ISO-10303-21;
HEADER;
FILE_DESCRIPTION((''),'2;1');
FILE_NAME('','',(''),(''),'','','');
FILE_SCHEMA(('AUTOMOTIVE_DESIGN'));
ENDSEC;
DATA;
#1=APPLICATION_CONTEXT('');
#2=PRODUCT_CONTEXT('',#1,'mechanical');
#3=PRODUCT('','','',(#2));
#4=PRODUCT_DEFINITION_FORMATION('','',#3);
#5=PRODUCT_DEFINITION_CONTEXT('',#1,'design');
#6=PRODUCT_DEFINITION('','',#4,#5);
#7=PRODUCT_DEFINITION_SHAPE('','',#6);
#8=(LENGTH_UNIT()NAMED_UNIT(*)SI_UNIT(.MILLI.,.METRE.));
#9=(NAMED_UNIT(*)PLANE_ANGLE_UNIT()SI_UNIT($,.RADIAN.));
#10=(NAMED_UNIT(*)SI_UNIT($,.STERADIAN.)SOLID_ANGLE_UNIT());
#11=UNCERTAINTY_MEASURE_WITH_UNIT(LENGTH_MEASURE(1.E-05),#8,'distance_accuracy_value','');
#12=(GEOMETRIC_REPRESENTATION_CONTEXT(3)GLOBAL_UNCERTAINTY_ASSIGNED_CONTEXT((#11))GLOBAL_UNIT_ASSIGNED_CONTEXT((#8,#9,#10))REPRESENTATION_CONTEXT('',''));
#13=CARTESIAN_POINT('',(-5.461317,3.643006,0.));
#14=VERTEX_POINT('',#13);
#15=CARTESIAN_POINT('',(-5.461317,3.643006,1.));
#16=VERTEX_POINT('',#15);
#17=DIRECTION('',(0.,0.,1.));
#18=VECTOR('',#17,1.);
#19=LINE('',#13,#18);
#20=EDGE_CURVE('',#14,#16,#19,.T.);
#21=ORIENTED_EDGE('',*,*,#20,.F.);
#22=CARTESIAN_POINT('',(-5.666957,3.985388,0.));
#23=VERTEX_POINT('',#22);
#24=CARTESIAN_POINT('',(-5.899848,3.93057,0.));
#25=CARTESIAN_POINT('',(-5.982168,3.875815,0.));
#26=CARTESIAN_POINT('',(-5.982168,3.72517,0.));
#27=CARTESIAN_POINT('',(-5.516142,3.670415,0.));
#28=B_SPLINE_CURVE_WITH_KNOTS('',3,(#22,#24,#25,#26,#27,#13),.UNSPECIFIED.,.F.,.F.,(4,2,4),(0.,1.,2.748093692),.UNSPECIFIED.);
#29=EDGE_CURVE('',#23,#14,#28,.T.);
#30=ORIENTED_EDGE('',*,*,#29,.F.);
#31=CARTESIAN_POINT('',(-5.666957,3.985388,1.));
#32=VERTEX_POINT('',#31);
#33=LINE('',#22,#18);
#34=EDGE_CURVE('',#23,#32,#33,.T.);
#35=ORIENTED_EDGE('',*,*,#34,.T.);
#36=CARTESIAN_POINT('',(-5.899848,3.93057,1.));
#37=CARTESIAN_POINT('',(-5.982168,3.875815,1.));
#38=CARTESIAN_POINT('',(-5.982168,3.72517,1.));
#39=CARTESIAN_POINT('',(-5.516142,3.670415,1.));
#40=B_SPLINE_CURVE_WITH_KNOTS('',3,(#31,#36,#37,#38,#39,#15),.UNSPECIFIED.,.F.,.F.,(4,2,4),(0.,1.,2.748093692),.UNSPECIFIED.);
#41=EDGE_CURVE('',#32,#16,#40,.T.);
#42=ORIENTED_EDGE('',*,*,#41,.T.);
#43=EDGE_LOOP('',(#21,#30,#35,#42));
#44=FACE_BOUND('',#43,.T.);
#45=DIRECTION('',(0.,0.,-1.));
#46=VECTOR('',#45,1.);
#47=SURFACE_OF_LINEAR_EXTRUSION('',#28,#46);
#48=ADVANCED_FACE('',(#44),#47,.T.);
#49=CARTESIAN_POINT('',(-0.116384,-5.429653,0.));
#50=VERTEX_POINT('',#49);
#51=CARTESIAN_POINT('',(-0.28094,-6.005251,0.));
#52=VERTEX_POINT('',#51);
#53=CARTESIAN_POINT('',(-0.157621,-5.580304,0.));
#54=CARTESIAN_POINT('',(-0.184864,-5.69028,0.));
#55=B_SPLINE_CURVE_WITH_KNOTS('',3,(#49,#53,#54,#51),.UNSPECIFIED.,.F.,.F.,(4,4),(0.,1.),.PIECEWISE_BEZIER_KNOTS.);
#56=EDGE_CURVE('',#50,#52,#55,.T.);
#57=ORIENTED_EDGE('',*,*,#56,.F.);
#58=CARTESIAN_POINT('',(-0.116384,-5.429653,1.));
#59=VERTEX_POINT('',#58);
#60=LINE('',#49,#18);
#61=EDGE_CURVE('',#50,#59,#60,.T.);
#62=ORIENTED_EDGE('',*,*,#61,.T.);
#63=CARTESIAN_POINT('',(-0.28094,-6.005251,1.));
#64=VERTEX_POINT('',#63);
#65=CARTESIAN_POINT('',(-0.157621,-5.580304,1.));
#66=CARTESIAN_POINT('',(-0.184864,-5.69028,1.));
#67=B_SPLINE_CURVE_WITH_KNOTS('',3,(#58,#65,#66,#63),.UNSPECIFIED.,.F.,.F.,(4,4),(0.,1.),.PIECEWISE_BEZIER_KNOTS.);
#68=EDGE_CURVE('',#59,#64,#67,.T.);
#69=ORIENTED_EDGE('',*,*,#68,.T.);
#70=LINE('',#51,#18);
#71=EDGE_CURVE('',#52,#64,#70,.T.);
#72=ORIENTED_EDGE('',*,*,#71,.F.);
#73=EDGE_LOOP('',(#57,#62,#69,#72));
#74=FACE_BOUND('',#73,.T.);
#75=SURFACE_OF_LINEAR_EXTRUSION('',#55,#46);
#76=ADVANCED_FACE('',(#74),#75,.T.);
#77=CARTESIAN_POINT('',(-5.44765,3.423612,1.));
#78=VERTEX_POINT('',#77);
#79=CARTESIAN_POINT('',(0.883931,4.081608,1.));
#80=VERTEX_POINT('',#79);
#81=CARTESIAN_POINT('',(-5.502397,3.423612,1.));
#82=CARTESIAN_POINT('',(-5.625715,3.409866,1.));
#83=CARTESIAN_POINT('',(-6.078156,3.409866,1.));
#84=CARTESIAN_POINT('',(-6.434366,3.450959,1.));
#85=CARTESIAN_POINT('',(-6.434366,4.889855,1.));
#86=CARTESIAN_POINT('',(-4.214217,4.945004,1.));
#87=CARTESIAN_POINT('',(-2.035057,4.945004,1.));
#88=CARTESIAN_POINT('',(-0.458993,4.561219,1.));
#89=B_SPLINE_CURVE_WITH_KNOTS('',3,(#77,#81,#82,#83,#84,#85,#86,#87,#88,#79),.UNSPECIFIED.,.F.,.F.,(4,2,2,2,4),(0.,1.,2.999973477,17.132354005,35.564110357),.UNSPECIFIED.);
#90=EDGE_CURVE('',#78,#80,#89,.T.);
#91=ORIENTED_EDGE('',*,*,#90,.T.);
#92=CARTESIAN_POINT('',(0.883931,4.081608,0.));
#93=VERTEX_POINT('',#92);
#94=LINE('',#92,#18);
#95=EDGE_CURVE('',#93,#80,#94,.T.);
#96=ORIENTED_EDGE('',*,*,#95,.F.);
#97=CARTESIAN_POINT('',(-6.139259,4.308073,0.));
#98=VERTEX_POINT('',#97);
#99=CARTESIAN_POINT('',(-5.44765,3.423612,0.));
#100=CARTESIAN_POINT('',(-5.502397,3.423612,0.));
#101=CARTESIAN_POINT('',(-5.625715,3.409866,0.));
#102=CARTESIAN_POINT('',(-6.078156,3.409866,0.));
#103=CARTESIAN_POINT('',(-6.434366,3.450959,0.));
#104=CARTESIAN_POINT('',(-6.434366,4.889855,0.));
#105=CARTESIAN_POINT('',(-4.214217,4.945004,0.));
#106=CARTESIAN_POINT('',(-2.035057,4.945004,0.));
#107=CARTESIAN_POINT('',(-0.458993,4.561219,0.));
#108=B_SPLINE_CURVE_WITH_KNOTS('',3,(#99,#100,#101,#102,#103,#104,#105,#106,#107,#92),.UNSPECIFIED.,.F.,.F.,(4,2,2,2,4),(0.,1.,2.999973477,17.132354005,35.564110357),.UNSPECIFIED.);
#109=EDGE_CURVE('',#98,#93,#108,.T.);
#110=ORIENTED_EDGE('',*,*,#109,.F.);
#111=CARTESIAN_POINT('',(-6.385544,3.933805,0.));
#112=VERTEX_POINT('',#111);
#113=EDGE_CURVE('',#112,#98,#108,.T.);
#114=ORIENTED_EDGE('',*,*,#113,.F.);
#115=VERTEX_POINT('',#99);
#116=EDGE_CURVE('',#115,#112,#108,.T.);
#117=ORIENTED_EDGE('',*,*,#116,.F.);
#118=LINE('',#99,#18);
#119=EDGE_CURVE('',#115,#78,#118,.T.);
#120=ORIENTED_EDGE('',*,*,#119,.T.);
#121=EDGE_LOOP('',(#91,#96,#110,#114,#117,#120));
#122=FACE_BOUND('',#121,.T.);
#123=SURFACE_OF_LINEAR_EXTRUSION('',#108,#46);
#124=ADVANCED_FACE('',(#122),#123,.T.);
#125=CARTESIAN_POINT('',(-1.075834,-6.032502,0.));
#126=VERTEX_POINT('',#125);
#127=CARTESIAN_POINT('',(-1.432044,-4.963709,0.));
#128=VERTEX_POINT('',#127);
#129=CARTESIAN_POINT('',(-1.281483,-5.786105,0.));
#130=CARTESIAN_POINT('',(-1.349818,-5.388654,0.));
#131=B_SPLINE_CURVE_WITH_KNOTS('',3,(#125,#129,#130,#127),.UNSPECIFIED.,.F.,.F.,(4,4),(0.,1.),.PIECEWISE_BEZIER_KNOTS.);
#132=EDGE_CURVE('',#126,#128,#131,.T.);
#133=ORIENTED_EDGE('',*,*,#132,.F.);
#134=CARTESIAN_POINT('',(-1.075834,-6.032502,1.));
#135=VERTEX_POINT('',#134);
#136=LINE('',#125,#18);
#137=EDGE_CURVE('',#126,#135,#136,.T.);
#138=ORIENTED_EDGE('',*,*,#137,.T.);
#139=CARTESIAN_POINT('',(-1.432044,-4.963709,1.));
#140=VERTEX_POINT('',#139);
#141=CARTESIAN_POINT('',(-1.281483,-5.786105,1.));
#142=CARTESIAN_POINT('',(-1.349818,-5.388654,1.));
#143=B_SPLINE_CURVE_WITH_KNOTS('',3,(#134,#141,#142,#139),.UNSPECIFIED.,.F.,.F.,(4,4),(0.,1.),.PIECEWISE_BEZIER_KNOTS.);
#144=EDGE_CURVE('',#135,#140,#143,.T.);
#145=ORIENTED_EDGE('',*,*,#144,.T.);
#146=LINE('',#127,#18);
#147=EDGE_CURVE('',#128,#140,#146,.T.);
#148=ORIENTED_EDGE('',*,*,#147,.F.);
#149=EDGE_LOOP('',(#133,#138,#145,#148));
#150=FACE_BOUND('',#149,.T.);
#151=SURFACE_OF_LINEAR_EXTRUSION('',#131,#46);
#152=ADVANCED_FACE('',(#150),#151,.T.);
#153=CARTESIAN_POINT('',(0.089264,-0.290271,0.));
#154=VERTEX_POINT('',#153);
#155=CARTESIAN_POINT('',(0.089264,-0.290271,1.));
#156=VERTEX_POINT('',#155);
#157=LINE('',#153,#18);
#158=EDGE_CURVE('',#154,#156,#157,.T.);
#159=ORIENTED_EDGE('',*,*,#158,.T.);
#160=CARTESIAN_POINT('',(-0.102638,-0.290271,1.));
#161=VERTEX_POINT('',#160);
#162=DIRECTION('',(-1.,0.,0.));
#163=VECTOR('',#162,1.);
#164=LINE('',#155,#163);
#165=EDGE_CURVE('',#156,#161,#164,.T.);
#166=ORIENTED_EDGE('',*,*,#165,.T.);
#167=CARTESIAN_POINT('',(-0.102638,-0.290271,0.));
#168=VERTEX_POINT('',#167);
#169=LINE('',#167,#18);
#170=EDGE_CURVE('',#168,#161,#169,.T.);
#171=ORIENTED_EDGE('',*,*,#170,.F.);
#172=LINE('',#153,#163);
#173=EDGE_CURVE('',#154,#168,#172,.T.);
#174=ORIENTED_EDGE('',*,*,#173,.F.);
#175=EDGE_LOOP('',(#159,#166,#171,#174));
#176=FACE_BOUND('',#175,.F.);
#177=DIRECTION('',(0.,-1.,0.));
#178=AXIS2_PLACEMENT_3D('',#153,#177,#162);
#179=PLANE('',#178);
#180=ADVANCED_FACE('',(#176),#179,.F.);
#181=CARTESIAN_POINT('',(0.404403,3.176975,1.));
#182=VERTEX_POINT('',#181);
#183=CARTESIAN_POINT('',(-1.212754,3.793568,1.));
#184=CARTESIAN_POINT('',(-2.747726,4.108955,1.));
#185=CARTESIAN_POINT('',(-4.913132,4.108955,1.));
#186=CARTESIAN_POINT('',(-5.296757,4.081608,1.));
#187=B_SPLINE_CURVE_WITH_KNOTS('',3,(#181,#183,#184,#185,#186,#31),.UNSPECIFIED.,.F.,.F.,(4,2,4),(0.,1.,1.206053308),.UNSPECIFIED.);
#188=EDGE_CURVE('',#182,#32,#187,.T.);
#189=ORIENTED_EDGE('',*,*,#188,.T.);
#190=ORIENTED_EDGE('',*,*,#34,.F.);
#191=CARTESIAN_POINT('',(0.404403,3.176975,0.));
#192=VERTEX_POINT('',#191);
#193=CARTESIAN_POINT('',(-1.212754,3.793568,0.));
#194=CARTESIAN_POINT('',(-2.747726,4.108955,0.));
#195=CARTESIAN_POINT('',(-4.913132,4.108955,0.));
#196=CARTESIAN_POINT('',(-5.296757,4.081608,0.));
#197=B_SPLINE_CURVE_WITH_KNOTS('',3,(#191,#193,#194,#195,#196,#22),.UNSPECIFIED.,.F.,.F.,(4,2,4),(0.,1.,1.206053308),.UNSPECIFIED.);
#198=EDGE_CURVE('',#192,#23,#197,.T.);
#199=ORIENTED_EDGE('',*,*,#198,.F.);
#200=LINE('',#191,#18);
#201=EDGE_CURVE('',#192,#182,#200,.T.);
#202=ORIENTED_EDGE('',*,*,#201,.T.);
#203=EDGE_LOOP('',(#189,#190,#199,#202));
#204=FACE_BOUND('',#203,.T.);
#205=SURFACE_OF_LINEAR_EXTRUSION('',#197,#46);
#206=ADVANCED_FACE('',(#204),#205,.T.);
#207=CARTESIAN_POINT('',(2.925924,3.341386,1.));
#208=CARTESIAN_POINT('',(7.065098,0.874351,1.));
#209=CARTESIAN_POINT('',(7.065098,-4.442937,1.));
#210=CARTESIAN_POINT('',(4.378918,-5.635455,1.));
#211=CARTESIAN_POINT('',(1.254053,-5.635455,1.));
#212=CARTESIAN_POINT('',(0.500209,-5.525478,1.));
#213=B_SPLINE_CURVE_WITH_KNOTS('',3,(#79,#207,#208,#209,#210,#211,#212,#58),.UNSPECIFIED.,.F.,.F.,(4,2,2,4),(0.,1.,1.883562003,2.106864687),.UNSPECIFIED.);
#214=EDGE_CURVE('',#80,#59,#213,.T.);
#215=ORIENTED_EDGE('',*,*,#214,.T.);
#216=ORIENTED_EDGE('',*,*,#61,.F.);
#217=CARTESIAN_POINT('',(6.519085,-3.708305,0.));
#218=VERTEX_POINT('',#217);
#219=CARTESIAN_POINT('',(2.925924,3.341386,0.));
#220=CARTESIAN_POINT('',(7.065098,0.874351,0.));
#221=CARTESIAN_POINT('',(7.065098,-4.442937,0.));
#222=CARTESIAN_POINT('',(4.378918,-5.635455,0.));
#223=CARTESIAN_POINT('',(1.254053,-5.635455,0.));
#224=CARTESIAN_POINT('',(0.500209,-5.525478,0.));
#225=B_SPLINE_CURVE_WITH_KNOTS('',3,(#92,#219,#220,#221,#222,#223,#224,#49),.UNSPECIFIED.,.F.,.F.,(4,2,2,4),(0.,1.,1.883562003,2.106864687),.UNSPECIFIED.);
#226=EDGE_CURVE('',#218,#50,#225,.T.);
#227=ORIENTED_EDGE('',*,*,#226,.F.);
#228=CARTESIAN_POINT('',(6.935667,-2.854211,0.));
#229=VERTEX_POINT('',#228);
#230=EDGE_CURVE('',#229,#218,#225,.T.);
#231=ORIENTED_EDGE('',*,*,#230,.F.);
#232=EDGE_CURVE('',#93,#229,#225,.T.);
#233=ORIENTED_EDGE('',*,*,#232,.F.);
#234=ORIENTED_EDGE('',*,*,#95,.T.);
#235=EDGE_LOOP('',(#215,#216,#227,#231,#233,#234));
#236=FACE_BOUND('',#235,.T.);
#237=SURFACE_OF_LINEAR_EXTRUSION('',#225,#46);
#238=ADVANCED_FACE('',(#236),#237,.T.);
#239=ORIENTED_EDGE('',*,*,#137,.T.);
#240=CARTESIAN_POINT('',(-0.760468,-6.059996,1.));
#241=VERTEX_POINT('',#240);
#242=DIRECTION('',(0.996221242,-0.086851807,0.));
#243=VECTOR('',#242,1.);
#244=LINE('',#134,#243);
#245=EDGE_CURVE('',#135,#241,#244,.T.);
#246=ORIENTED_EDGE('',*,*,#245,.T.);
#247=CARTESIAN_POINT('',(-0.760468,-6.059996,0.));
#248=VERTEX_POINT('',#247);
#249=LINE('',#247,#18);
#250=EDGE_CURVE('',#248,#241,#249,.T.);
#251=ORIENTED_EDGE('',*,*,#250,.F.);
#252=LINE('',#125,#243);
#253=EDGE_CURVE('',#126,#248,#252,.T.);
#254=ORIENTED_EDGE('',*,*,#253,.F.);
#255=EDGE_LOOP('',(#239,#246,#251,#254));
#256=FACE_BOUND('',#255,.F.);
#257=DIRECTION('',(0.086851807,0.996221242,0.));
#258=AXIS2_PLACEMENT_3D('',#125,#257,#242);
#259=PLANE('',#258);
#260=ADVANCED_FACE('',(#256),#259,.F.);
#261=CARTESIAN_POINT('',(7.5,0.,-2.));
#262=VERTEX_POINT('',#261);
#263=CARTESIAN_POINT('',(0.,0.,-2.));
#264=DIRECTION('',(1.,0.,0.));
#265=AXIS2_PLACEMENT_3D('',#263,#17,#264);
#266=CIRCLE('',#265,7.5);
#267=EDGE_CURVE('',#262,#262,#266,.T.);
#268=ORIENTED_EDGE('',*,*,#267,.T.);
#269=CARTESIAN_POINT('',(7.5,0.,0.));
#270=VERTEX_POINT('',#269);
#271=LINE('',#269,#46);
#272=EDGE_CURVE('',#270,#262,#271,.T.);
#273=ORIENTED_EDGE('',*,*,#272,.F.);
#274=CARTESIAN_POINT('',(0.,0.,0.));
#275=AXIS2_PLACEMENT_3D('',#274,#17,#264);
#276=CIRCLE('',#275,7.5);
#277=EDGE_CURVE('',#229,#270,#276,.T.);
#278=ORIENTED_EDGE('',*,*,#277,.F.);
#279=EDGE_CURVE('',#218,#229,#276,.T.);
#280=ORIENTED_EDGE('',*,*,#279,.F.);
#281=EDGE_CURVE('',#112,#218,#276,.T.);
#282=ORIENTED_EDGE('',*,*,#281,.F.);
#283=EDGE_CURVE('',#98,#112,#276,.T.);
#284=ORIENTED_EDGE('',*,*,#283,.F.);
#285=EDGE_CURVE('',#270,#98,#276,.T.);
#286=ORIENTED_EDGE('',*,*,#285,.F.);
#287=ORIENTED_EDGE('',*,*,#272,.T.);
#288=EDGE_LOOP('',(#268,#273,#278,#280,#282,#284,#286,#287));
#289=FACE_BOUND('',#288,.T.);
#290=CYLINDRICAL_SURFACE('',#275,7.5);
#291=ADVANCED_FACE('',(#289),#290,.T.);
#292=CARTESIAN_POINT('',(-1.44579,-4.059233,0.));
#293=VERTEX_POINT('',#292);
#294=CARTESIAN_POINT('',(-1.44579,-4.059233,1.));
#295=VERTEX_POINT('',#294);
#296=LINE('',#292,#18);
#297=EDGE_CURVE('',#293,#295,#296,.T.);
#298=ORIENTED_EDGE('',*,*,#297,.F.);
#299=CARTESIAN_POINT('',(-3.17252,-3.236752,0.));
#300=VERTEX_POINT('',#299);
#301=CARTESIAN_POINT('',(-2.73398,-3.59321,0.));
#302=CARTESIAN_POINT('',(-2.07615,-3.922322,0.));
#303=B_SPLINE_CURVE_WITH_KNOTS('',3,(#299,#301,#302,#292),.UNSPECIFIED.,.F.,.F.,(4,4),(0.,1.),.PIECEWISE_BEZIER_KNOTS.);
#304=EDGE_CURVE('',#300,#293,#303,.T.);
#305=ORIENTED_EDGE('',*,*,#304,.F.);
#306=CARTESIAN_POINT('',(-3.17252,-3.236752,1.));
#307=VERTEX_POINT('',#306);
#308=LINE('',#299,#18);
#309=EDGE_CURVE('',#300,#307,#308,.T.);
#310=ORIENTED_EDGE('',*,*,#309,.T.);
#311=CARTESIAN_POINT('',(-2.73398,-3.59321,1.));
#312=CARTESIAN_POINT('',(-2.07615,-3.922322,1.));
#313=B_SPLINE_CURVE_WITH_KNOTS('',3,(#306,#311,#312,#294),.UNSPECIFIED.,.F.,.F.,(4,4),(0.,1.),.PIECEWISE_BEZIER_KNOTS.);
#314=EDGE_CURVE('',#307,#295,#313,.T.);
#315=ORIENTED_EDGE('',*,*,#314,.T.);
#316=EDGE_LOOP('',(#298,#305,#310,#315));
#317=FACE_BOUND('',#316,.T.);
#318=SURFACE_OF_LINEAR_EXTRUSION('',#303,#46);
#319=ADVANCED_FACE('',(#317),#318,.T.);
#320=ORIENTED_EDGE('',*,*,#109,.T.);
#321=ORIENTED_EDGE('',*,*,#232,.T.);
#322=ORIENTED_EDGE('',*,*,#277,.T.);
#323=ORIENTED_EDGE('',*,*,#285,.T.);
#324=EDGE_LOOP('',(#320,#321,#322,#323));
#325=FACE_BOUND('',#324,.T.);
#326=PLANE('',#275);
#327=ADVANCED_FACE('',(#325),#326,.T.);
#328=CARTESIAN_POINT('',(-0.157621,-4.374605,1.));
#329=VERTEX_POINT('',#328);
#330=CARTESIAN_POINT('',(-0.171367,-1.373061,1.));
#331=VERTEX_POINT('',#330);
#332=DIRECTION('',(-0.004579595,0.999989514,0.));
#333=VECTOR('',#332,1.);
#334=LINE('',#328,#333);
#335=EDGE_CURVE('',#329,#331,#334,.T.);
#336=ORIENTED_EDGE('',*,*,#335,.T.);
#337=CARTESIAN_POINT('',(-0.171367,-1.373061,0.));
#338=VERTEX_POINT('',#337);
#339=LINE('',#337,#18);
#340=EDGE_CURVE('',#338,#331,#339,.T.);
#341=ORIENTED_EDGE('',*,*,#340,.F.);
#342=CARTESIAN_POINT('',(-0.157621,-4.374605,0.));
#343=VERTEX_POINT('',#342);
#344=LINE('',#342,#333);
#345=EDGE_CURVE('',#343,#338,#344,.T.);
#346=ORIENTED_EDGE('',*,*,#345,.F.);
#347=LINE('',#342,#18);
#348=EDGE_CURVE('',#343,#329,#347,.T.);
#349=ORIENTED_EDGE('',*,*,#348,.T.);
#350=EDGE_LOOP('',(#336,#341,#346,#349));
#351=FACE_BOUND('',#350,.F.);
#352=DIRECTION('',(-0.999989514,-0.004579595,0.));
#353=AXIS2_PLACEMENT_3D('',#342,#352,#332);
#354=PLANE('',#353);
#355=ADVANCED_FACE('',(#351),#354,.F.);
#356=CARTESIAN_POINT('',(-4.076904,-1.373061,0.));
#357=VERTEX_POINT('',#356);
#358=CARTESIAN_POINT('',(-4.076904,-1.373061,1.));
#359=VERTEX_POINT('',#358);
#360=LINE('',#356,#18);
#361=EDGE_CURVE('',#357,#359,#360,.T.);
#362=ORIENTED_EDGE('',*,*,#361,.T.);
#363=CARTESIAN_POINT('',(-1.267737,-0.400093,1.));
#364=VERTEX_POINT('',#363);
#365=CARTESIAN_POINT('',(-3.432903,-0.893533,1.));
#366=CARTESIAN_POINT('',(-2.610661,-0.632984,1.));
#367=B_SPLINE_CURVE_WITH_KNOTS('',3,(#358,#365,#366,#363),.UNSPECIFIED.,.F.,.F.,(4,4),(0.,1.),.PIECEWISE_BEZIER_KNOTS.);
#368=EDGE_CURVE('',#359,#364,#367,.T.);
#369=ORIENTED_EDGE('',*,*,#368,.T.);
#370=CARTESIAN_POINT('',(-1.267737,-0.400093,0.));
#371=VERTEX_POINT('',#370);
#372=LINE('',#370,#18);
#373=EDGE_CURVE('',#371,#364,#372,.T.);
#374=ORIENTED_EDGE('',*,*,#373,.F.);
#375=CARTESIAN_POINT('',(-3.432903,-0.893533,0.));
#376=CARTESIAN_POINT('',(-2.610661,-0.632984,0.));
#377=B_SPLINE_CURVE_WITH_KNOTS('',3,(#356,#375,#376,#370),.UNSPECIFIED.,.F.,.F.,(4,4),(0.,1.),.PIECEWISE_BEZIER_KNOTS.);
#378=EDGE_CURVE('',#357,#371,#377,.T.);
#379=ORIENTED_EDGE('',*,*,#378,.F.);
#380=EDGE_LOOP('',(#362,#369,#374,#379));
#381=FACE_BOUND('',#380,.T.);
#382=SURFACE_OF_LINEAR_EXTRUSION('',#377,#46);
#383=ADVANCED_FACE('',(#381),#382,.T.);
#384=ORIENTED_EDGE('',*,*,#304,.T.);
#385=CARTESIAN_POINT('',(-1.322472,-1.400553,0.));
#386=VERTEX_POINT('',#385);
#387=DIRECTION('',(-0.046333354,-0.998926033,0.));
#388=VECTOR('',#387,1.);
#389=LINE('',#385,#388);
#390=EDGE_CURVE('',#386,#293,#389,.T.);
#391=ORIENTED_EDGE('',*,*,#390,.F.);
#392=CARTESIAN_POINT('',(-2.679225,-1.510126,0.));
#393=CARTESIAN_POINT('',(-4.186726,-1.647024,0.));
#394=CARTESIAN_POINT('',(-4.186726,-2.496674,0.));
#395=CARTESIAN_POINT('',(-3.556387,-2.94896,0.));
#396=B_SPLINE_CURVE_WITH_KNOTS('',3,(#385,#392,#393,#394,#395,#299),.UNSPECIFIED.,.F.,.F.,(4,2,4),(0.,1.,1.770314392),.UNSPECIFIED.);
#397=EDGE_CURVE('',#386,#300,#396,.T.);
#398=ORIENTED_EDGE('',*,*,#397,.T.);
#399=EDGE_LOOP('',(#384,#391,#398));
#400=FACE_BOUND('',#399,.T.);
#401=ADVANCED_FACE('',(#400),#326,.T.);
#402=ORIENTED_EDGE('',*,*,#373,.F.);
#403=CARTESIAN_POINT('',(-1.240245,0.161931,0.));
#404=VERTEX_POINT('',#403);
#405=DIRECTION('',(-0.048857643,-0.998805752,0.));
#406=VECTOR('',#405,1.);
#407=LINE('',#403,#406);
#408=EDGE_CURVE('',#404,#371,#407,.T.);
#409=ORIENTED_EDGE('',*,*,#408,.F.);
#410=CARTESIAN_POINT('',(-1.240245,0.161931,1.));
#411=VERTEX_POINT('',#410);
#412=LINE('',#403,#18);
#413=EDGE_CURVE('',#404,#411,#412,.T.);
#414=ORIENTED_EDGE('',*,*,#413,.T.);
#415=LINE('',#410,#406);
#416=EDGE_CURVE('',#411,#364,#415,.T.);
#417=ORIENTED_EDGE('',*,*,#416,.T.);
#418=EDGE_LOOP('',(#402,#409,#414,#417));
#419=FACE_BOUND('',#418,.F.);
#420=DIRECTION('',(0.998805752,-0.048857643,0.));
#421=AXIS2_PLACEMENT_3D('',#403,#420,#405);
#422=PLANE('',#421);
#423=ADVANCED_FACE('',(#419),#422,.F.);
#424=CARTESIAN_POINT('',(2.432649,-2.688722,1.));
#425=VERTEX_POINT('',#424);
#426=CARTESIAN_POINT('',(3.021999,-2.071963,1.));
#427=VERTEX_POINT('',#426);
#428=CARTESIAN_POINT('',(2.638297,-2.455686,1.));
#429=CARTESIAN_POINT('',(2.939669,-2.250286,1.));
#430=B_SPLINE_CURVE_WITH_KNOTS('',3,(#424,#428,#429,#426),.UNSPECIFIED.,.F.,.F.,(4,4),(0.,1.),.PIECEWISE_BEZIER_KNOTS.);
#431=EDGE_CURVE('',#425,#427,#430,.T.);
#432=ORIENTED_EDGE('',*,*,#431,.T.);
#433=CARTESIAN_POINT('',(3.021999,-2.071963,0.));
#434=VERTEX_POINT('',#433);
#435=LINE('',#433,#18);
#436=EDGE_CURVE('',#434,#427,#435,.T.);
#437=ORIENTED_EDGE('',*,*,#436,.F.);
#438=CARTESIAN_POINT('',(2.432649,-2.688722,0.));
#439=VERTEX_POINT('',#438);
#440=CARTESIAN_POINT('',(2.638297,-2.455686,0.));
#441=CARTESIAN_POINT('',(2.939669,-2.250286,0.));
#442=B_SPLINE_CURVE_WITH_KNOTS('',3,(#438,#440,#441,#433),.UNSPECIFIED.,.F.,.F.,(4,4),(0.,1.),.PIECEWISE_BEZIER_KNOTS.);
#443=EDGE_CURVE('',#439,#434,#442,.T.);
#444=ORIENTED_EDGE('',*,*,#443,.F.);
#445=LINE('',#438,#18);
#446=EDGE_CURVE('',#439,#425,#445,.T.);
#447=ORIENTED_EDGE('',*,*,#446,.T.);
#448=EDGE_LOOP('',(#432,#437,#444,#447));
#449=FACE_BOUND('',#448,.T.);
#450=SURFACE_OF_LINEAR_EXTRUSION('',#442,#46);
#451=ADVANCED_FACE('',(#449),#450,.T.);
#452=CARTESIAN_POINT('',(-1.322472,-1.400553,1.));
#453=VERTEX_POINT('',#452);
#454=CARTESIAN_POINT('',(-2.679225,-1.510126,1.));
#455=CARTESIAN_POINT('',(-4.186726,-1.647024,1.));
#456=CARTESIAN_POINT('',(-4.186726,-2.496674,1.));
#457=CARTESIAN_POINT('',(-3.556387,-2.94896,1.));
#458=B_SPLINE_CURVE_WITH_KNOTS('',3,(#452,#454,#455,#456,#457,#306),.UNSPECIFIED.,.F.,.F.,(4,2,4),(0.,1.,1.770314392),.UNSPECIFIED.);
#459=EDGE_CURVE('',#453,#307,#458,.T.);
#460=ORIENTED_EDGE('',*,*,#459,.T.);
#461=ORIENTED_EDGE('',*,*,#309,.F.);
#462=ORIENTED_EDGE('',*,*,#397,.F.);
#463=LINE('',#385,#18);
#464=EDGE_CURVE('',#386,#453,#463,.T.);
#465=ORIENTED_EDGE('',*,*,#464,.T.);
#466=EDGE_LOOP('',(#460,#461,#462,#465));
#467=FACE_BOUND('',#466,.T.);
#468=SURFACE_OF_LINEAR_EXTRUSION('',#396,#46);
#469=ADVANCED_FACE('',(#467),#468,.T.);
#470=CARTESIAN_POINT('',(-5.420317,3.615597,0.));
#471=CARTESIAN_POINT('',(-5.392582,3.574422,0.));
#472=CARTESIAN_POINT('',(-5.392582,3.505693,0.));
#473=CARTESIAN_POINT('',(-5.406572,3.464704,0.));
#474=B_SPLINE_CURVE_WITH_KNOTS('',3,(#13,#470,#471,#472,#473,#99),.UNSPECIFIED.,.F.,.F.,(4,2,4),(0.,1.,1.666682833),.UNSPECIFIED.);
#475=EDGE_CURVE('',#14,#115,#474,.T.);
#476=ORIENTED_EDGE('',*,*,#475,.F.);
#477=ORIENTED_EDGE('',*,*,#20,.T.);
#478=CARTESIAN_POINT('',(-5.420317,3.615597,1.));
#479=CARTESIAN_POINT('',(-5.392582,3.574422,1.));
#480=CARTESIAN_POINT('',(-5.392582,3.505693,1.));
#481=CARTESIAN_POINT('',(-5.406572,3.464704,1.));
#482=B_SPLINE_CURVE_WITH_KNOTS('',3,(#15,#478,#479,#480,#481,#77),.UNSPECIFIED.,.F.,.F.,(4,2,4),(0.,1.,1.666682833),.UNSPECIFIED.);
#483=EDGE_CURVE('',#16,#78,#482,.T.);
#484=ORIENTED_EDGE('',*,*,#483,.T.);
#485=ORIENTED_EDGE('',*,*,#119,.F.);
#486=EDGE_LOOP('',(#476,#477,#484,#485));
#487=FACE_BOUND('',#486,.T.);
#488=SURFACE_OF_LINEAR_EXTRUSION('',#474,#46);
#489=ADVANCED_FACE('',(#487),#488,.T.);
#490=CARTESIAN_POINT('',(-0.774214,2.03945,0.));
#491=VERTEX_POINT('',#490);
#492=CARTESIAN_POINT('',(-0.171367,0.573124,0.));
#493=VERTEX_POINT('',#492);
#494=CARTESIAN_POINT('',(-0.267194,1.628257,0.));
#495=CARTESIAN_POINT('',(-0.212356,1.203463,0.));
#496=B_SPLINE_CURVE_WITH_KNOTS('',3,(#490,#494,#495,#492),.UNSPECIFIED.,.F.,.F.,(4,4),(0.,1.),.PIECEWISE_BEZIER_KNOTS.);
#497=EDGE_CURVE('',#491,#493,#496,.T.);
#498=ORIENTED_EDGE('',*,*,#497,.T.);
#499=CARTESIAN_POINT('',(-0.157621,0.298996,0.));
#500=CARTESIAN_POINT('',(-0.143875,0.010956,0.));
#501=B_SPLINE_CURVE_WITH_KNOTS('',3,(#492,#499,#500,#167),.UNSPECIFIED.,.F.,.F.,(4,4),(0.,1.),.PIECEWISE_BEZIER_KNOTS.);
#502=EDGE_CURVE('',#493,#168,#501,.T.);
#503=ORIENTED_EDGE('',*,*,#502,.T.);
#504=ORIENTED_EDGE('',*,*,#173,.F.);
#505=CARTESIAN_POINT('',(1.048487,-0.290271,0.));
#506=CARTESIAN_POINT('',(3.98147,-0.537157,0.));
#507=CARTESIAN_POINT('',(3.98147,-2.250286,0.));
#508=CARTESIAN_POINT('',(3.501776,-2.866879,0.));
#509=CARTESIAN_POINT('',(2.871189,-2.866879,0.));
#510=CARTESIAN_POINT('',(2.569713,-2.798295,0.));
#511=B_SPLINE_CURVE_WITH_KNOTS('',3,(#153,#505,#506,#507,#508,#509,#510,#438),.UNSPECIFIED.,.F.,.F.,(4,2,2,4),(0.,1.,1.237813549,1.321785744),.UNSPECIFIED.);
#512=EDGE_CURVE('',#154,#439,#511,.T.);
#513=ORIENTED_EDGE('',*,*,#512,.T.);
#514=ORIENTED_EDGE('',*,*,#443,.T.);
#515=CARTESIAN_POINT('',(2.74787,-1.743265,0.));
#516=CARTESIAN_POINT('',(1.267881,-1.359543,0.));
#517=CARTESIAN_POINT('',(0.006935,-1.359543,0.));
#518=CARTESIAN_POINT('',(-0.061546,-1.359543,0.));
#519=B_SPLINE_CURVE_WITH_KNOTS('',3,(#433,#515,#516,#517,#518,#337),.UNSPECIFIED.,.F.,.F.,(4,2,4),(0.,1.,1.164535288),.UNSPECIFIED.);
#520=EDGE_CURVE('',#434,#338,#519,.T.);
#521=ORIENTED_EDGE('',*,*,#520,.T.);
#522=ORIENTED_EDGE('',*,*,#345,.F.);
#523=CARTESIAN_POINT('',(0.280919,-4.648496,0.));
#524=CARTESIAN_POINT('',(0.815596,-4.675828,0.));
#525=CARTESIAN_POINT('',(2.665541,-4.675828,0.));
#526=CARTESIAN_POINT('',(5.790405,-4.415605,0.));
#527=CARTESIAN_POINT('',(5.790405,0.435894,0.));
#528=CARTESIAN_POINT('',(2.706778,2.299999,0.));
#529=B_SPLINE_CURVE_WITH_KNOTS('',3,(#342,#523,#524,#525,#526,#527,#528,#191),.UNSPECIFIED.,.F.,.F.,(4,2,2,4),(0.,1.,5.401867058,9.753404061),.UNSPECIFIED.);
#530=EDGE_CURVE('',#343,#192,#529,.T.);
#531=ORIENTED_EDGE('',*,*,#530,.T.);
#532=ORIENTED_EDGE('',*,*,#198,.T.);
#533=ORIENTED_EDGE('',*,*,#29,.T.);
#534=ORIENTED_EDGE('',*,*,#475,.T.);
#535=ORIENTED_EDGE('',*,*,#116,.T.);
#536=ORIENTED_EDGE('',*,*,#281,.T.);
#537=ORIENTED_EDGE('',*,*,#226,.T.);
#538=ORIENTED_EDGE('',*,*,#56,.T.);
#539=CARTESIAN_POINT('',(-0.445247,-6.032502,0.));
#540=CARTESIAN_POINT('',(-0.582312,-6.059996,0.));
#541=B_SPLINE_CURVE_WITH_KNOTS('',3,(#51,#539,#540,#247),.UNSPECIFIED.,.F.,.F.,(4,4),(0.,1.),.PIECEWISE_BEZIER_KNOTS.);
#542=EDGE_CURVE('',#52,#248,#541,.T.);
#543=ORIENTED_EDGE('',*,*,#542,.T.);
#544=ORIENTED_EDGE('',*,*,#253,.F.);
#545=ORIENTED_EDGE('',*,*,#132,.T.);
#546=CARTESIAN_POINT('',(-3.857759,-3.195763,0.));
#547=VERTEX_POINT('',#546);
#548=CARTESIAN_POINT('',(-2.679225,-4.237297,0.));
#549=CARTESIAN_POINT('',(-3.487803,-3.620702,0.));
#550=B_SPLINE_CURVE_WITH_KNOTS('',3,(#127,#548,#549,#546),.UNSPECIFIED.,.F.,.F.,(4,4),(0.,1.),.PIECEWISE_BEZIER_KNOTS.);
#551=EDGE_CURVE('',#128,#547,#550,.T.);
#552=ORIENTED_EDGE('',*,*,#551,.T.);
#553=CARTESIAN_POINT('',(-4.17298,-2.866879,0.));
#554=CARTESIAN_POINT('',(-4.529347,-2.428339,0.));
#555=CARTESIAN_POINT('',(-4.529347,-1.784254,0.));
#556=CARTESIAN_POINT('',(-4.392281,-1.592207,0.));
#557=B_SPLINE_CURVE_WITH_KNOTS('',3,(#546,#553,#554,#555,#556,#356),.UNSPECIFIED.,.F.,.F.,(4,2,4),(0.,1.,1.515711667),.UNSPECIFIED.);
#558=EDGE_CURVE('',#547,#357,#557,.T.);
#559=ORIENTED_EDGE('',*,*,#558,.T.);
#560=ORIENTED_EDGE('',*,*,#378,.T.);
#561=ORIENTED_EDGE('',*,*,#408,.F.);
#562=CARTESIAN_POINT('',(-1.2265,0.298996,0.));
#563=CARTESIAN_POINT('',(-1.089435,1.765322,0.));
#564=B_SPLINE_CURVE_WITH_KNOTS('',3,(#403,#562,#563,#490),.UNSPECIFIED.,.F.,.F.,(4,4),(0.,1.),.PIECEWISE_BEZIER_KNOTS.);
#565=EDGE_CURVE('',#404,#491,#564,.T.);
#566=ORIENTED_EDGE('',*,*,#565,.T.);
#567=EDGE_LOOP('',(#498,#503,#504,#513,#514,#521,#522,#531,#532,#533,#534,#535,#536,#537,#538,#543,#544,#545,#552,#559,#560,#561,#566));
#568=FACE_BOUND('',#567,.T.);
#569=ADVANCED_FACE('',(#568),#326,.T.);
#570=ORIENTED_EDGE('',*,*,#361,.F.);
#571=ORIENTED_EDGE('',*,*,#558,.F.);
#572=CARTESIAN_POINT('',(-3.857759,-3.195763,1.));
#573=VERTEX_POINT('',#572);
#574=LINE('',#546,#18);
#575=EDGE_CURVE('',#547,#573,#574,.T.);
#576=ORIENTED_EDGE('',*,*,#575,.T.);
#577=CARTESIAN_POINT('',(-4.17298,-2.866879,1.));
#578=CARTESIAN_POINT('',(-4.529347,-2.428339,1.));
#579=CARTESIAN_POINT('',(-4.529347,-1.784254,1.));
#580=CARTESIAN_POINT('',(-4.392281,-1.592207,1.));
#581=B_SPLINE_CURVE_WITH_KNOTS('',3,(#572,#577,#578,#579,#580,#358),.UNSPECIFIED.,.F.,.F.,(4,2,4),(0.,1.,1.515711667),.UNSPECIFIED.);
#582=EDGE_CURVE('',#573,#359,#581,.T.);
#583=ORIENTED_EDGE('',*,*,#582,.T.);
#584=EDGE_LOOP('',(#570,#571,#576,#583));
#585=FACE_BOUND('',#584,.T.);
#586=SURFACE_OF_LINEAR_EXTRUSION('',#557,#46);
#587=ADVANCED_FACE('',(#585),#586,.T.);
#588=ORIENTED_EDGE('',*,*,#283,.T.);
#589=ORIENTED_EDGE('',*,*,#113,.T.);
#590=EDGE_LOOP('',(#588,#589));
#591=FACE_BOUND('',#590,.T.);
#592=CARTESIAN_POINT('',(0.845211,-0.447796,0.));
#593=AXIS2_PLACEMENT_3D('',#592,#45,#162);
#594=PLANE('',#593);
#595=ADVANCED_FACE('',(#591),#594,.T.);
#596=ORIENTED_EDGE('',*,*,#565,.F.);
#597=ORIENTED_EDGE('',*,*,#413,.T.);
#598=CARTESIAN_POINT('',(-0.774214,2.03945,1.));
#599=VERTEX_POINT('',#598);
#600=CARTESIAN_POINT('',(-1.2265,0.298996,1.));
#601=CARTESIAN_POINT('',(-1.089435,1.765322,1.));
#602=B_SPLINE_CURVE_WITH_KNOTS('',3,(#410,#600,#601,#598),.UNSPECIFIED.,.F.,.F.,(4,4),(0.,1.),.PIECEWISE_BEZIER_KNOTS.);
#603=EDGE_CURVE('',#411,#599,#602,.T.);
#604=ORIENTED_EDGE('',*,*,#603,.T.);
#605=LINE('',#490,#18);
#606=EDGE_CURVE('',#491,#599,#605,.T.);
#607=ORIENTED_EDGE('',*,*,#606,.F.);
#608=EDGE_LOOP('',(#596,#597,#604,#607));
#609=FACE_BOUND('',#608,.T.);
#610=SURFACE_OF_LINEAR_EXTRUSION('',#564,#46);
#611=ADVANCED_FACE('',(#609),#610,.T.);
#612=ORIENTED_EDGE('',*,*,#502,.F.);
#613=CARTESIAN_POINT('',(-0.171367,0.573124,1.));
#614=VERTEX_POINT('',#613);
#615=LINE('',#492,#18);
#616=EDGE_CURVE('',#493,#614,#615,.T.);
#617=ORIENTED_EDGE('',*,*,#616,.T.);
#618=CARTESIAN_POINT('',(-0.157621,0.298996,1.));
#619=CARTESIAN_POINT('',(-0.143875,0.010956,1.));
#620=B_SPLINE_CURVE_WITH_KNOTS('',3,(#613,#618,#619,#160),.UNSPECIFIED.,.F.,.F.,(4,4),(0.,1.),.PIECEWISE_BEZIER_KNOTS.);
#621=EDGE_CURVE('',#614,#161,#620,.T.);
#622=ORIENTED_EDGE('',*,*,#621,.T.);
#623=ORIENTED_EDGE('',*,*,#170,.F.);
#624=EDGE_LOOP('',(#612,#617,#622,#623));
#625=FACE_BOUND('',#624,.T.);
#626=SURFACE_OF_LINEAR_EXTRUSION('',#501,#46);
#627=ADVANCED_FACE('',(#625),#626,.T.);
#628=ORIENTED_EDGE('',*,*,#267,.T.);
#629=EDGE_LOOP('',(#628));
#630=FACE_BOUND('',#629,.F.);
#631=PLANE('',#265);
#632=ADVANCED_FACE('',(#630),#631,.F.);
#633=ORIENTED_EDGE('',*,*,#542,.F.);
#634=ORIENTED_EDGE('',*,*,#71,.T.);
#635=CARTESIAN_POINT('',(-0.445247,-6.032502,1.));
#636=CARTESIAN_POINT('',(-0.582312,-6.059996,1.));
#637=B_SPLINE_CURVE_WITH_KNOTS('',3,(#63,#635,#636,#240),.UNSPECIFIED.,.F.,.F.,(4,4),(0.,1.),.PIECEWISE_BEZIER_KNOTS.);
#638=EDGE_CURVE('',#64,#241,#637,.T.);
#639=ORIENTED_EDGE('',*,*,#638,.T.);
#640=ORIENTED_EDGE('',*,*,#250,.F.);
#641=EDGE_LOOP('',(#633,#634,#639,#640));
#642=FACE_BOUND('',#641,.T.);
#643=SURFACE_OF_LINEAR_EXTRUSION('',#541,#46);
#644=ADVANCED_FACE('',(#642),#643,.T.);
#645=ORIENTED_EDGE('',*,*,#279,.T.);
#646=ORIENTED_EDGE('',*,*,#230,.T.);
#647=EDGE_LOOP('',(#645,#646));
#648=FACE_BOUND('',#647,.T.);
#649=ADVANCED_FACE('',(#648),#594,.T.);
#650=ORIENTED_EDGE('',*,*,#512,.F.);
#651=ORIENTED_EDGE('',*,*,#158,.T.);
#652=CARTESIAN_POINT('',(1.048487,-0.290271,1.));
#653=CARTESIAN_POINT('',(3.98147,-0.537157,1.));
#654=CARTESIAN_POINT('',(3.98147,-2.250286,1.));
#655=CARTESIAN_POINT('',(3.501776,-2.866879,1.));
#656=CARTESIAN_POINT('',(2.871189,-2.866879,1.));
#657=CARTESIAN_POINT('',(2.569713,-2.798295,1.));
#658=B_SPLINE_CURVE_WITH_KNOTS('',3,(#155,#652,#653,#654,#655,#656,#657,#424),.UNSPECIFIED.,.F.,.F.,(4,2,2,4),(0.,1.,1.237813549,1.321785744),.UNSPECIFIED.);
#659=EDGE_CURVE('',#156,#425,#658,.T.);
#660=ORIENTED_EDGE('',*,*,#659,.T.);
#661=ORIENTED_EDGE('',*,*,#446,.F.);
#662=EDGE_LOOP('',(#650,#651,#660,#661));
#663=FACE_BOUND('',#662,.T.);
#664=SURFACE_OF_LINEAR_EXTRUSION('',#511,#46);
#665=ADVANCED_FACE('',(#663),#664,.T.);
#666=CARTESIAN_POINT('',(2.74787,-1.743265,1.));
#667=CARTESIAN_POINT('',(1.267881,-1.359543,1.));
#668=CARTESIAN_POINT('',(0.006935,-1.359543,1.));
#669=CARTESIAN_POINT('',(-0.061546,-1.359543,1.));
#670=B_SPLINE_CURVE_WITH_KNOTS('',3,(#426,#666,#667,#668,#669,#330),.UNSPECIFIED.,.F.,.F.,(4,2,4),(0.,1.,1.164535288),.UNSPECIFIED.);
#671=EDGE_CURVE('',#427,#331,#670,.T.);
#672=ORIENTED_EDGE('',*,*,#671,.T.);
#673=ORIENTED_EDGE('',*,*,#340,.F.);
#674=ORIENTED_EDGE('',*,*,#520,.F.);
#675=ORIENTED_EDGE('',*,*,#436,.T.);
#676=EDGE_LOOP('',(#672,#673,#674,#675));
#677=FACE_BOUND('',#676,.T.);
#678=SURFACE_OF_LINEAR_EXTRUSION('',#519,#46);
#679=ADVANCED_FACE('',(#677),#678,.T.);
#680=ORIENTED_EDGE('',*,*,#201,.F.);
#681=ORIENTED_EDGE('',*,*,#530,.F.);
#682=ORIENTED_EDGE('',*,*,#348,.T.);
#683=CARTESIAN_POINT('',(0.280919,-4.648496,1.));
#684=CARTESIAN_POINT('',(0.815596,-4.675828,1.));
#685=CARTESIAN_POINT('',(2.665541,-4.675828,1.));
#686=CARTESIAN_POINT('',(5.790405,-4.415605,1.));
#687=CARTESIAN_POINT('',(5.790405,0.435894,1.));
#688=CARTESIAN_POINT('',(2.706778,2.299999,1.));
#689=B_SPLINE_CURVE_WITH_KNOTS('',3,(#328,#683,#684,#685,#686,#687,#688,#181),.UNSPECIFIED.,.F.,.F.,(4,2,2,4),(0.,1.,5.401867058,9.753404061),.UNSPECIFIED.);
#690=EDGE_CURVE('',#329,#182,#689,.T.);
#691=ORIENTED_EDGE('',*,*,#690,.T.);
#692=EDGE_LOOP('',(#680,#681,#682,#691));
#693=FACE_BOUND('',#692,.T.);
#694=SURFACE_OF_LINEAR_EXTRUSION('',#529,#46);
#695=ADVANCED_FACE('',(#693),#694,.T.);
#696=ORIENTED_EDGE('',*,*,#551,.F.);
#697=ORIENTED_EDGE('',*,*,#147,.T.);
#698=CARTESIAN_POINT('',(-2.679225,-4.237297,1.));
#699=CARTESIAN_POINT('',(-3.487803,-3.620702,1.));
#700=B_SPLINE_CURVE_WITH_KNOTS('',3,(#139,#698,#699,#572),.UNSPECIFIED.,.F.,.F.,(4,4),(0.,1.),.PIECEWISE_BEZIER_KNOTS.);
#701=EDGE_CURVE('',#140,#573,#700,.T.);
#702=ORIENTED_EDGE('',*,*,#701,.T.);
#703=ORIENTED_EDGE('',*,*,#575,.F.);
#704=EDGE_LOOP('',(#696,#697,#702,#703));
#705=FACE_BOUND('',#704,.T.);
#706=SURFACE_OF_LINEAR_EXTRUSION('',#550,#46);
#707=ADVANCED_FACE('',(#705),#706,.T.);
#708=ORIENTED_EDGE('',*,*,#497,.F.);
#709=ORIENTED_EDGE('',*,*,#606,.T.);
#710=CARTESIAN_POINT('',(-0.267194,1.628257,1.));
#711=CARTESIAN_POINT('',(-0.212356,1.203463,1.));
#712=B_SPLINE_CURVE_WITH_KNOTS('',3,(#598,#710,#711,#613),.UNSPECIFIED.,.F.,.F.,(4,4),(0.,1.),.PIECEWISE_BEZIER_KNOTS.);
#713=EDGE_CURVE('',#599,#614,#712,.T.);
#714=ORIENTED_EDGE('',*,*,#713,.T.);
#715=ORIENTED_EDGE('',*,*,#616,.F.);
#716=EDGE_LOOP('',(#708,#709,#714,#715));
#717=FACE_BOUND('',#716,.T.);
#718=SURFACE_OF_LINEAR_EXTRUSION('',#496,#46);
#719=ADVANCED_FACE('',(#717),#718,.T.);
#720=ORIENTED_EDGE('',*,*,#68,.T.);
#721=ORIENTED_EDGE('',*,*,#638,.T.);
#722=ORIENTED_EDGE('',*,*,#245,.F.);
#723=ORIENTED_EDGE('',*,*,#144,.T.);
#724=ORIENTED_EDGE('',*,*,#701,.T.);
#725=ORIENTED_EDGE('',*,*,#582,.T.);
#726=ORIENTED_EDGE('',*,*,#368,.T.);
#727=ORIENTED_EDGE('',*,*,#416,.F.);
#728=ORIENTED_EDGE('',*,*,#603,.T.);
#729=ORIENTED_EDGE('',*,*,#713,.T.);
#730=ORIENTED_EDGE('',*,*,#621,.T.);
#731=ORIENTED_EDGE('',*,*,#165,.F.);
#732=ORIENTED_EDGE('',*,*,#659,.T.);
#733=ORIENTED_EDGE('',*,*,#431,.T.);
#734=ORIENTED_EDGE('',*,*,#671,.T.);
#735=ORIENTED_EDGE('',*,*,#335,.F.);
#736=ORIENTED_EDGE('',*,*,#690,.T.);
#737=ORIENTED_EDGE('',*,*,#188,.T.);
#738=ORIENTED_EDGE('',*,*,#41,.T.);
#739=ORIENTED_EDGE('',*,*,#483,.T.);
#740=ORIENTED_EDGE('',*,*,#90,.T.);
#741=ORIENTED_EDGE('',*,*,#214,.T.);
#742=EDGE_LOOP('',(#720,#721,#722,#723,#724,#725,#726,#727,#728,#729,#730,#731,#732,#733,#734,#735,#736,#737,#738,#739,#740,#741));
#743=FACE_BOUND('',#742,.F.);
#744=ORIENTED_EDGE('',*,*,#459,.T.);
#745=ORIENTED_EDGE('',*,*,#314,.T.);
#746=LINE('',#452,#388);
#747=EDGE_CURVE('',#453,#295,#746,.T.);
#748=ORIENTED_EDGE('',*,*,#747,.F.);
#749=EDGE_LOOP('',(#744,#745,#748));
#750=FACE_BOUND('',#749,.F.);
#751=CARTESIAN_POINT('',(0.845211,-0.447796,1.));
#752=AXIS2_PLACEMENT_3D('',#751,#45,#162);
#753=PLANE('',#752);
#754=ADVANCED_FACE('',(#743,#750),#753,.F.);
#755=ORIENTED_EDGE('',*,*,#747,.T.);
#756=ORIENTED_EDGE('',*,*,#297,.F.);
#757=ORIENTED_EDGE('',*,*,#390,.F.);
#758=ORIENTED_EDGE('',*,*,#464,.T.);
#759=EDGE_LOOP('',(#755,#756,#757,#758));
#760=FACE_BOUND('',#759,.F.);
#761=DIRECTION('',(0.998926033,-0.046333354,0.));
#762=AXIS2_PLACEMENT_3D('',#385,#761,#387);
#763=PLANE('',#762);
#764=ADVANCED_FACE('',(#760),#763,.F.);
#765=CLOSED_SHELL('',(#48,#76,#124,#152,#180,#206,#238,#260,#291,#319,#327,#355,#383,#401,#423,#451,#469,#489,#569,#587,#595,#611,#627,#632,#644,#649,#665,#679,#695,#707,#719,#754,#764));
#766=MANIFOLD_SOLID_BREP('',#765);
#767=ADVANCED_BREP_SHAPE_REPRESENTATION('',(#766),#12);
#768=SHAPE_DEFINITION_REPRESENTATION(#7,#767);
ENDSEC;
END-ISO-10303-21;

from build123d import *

# Parameters (mm, degrees)
F2_DEPTH = 1
F0_R     = 7.5
F3_DEPTH = 2


with BuildPart() as f2:
    # F1 (on Top) → F2 (new body)
    with BuildSketch(Plane.XY):
        with BuildLine():
            add(Edge.make_bspline(
                [(-5.77653, 3.4098657213), (-6.078156, 3.4098657213), (-6.434366, 3.4509587213), (-6.434366, 3.6293427213)],
                knots=[0, 0, 0, 0, 1, 1, 1, 1], degree=3))
            add(Edge.make_bspline(
                [(-5.44765, 3.4236117213), (-5.502397, 3.4236117213), (-5.625715, 3.4098657213), (-5.77653, 3.4098657213)],
                knots=[0, 0, 0, 0, 1, 1, 1, 1], degree=3))
            add(Edge.make_bspline(
                [(-5.392582, 3.5331847213), (-5.392582, 3.5056927213), (-5.406572, 3.4647037213), (-5.44765, 3.4236117213)],
                knots=[0, 0, 0, 0, 1, 1, 1, 1], degree=3))
            add(Edge.make_bspline(
                [(-5.461317, 3.6430057213), (-5.420317, 3.6155967213), (-5.392582, 3.5744217213), (-5.392582, 3.5331847213)],
                knots=[0, 0, 0, 0, 1, 1, 1, 1], degree=3))
            add(Edge.make_bspline(
                [(-5.982168, 3.8209967213), (-5.982168, 3.7251697213), (-5.516142, 3.6704147213), (-5.461317, 3.6430057213)],
                knots=[0, 0, 0, 0, 1, 1, 1, 1], degree=3))
            add(Edge.make_bspline(
                [(-5.666957, 3.9853877213), (-5.899848, 3.9305697213), (-5.982168, 3.8758147213), (-5.982168, 3.8209967213)],
                knots=[0, 0, 0, 0, 1, 1, 1, 1], degree=3))
            add(Edge.make_bspline(
                [(-4.543174, 4.1089547213), (-4.913132, 4.1089547213), (-5.296757, 4.0816077213), (-5.666957, 3.9853877213)],
                knots=[0, 0, 0, 0, 1, 1, 1, 1], degree=3))
            add(Edge.make_bspline(
                [(0.404403, 3.1769747213), (-1.212754, 3.7935677213), (-2.747726, 4.1089547213), (-4.543174, 4.1089547213)],
                knots=[0, 0, 0, 0, 1, 1, 1, 1], degree=3))
            add(Edge.make_bspline(
                [(5.790405, -1.9759082787), (5.790405, 0.4358937213), (2.706778, 2.2999987213), (0.404403, 3.1769747213)],
                knots=[0, 0, 0, 0, 1, 1, 1, 1], degree=3))
            add(Edge.make_bspline(
                [(1.15806, -4.6758282787), (2.665541, -4.6758282787), (5.790405, -4.4156052787), (5.790405, -1.9759082787)],
                knots=[0, 0, 0, 0, 1, 1, 1, 1], degree=3))
            add(Edge.make_bspline(
                [(-0.157621, -4.3746052787), (0.280919, -4.6484962787), (0.815596, -4.6758282787), (1.15806, -4.6758282787)],
                knots=[0, 0, 0, 0, 1, 1, 1, 1], degree=3))
            Line((-0.157621, -4.3746052787), (-0.171367, -1.3730612787))
            add(Edge.make_bspline(
                [(0.185092, -1.3595432787), (0.006935, -1.3595432787), (-0.061546, -1.3595432787), (-0.171367, -1.3730612787)],
                knots=[0, 0, 0, 0, 1, 1, 1, 1], degree=3))
            add(Edge.make_bspline(
                [(3.021999, -2.0719632787), (2.74787, -1.7432652787), (1.267881, -1.3595432787), (0.185092, -1.3595432787)],
                knots=[0, 0, 0, 0, 1, 1, 1, 1], degree=3))
            add(Edge.make_bspline(
                [(2.432649, -2.6887222787), (2.638297, -2.4556862787), (2.939669, -2.2502862787), (3.021999, -2.0719632787)],
                knots=[0, 0, 0, 0, 1, 1, 1, 1], degree=3))
            add(Edge.make_bspline(
                [(3.035745, -2.8668792787), (2.871189, -2.8668792787), (2.569713, -2.7982952787), (2.432649, -2.6887222787)],
                knots=[0, 0, 0, 0, 1, 1, 1, 1], degree=3))
            add(Edge.make_bspline(
                [(3.98147, -1.9211532787), (3.98147, -2.2502862787), (3.501776, -2.8668792787), (3.035745, -2.8668792787)],
                knots=[0, 0, 0, 0, 1, 1, 1, 1], degree=3))
            add(Edge.make_bspline(
                [(0.089264, -0.2902712787), (1.048487, -0.2902712787), (3.98147, -0.5371572787), (3.98147, -1.9211532787)],
                knots=[0, 0, 0, 0, 1, 1, 1, 1], degree=3))
            Line((0.089264, -0.2902712787), (-0.102638, -0.2902712787))
            add(Edge.make_bspline(
                [(-0.171367, 0.5731237213), (-0.157621, 0.2989957213), (-0.143875, 0.0109557213), (-0.102638, -0.2902712787)],
                knots=[0, 0, 0, 0, 1, 1, 1, 1], degree=3))
            add(Edge.make_bspline(
                [(-0.774214, 2.0394497213), (-0.267194, 1.6282567213), (-0.212356, 1.2034627213), (-0.171367, 0.5731237213)],
                knots=[0, 0, 0, 0, 1, 1, 1, 1], degree=3))
            add(Edge.make_bspline(
                [(-1.240245, 0.1619307213), (-1.2265, 0.2989957213), (-1.089435, 1.7653217213), (-0.774214, 2.0394497213)],
                knots=[0, 0, 0, 0, 1, 1, 1, 1], degree=3))
            Line((-1.240245, 0.1619307213), (-1.267737, -0.4000932787))
            add(Edge.make_bspline(
                [(-4.076904, -1.3730612787), (-3.432903, -0.8935332787), (-2.610661, -0.6329842787), (-1.267737, -0.4000932787)],
                knots=[0, 0, 0, 0, 1, 1, 1, 1], degree=3))
            add(Edge.make_bspline(
                [(-4.529347, -2.0034002787), (-4.529347, -1.7842542787), (-4.392281, -1.5922072787), (-4.076904, -1.3730612787)],
                knots=[0, 0, 0, 0, 1, 1, 1, 1], degree=3))
            add(Edge.make_bspline(
                [(-3.857759, -3.1957632787), (-4.17298, -2.8668792787), (-4.529347, -2.4283392787), (-4.529347, -2.0034002787)],
                knots=[0, 0, 0, 0, 1, 1, 1, 1], degree=3))
            add(Edge.make_bspline(
                [(-1.432044, -4.9637092787), (-2.679225, -4.2372972787), (-3.487803, -3.6207022787), (-3.857759, -3.1957632787)],
                knots=[0, 0, 0, 0, 1, 1, 1, 1], degree=3))
            add(Edge.make_bspline(
                [(-1.075834, -6.0325022787), (-1.281483, -5.7861052787), (-1.349818, -5.3886542787), (-1.432044, -4.9637092787)],
                knots=[0, 0, 0, 0, 1, 1, 1, 1], degree=3))
            Line((-1.075834, -6.0325022787), (-0.760468, -6.0599962787))
            add(Edge.make_bspline(
                [(-0.28094, -6.0052512787), (-0.445247, -6.0325022787), (-0.582312, -6.0599962787), (-0.760468, -6.0599962787)],
                knots=[0, 0, 0, 0, 1, 1, 1, 1], degree=3))
            add(Edge.make_bspline(
                [(-0.116384, -5.4296532787), (-0.157621, -5.5803042787), (-0.184864, -5.6902802787), (-0.28094, -6.0052512787)],
                knots=[0, 0, 0, 0, 1, 1, 1, 1], degree=3))
            add(Edge.make_bspline(
                [(1.884474, -5.6354552787), (1.254053, -5.6354552787), (0.500209, -5.5254782787), (-0.116384, -5.4296532787)],
                knots=[0, 0, 0, 0, 1, 1, 1, 1], degree=3))
            add(Edge.make_bspline(
                [(7.065098, -1.9486452787), (7.065098, -4.4429372787), (4.378918, -5.6354552787), (1.884474, -5.6354552787)],
                knots=[0, 0, 0, 0, 1, 1, 1, 1], degree=3))
            add(Edge.make_bspline(
                [(0.883931, 4.0816077213), (2.925924, 3.3413857213), (7.065098, 0.8743507213), (7.065098, -1.9486452787)],
                knots=[0, 0, 0, 0, 1, 1, 1, 1], degree=3))
            add(Edge.make_bspline(
                [(-3.268492, 4.9450037213), (-2.035057, 4.9450037213), (-0.458993, 4.5612187213), (0.883931, 4.0816077213)],
                knots=[0, 0, 0, 0, 1, 1, 1, 1], degree=3))
            add(Edge.make_bspline(
                [(-6.434366, 3.6293427213), (-6.434366, 4.8898547213), (-4.214217, 4.9450037213), (-3.268492, 4.9450037213)],
                knots=[0, 0, 0, 0, 1, 1, 1, 1], degree=3))
        make_face()
        with BuildLine():
            add(Edge.make_bspline(
                [(-1.322472, -1.4005532787), (-2.679225, -1.5101262787), (-4.186726, -1.6470242787), (-4.186726, -2.1269672787)],
                knots=[0, 0, 0, 0, 1, 1, 1, 1], degree=3))
            Line((-1.322472, -1.4005532787), (-1.44579, -4.0592332787))
            add(Edge.make_bspline(
                [(-3.17252, -3.2367522787), (-2.73398, -3.5932102787), (-2.07615, -3.9223222787), (-1.44579, -4.0592332787)],
                knots=[0, 0, 0, 0, 1, 1, 1, 1], degree=3))
            add(Edge.make_bspline(
                [(-4.186726, -2.1269672787), (-4.186726, -2.4966742787), (-3.556387, -2.9489602787), (-3.17252, -3.2367522787)],
                knots=[0, 0, 0, 0, 1, 1, 1, 1], degree=3))
        make_face(mode=Mode.SUBTRACT)
    extrude(amount=F2_DEPTH)

    # F0 (on Top) → F3 (join)
    with BuildSketch(Plane.XY):
        Circle(F0_R)
    extrude(amount=-F3_DEPTH)


solid = f2.part
